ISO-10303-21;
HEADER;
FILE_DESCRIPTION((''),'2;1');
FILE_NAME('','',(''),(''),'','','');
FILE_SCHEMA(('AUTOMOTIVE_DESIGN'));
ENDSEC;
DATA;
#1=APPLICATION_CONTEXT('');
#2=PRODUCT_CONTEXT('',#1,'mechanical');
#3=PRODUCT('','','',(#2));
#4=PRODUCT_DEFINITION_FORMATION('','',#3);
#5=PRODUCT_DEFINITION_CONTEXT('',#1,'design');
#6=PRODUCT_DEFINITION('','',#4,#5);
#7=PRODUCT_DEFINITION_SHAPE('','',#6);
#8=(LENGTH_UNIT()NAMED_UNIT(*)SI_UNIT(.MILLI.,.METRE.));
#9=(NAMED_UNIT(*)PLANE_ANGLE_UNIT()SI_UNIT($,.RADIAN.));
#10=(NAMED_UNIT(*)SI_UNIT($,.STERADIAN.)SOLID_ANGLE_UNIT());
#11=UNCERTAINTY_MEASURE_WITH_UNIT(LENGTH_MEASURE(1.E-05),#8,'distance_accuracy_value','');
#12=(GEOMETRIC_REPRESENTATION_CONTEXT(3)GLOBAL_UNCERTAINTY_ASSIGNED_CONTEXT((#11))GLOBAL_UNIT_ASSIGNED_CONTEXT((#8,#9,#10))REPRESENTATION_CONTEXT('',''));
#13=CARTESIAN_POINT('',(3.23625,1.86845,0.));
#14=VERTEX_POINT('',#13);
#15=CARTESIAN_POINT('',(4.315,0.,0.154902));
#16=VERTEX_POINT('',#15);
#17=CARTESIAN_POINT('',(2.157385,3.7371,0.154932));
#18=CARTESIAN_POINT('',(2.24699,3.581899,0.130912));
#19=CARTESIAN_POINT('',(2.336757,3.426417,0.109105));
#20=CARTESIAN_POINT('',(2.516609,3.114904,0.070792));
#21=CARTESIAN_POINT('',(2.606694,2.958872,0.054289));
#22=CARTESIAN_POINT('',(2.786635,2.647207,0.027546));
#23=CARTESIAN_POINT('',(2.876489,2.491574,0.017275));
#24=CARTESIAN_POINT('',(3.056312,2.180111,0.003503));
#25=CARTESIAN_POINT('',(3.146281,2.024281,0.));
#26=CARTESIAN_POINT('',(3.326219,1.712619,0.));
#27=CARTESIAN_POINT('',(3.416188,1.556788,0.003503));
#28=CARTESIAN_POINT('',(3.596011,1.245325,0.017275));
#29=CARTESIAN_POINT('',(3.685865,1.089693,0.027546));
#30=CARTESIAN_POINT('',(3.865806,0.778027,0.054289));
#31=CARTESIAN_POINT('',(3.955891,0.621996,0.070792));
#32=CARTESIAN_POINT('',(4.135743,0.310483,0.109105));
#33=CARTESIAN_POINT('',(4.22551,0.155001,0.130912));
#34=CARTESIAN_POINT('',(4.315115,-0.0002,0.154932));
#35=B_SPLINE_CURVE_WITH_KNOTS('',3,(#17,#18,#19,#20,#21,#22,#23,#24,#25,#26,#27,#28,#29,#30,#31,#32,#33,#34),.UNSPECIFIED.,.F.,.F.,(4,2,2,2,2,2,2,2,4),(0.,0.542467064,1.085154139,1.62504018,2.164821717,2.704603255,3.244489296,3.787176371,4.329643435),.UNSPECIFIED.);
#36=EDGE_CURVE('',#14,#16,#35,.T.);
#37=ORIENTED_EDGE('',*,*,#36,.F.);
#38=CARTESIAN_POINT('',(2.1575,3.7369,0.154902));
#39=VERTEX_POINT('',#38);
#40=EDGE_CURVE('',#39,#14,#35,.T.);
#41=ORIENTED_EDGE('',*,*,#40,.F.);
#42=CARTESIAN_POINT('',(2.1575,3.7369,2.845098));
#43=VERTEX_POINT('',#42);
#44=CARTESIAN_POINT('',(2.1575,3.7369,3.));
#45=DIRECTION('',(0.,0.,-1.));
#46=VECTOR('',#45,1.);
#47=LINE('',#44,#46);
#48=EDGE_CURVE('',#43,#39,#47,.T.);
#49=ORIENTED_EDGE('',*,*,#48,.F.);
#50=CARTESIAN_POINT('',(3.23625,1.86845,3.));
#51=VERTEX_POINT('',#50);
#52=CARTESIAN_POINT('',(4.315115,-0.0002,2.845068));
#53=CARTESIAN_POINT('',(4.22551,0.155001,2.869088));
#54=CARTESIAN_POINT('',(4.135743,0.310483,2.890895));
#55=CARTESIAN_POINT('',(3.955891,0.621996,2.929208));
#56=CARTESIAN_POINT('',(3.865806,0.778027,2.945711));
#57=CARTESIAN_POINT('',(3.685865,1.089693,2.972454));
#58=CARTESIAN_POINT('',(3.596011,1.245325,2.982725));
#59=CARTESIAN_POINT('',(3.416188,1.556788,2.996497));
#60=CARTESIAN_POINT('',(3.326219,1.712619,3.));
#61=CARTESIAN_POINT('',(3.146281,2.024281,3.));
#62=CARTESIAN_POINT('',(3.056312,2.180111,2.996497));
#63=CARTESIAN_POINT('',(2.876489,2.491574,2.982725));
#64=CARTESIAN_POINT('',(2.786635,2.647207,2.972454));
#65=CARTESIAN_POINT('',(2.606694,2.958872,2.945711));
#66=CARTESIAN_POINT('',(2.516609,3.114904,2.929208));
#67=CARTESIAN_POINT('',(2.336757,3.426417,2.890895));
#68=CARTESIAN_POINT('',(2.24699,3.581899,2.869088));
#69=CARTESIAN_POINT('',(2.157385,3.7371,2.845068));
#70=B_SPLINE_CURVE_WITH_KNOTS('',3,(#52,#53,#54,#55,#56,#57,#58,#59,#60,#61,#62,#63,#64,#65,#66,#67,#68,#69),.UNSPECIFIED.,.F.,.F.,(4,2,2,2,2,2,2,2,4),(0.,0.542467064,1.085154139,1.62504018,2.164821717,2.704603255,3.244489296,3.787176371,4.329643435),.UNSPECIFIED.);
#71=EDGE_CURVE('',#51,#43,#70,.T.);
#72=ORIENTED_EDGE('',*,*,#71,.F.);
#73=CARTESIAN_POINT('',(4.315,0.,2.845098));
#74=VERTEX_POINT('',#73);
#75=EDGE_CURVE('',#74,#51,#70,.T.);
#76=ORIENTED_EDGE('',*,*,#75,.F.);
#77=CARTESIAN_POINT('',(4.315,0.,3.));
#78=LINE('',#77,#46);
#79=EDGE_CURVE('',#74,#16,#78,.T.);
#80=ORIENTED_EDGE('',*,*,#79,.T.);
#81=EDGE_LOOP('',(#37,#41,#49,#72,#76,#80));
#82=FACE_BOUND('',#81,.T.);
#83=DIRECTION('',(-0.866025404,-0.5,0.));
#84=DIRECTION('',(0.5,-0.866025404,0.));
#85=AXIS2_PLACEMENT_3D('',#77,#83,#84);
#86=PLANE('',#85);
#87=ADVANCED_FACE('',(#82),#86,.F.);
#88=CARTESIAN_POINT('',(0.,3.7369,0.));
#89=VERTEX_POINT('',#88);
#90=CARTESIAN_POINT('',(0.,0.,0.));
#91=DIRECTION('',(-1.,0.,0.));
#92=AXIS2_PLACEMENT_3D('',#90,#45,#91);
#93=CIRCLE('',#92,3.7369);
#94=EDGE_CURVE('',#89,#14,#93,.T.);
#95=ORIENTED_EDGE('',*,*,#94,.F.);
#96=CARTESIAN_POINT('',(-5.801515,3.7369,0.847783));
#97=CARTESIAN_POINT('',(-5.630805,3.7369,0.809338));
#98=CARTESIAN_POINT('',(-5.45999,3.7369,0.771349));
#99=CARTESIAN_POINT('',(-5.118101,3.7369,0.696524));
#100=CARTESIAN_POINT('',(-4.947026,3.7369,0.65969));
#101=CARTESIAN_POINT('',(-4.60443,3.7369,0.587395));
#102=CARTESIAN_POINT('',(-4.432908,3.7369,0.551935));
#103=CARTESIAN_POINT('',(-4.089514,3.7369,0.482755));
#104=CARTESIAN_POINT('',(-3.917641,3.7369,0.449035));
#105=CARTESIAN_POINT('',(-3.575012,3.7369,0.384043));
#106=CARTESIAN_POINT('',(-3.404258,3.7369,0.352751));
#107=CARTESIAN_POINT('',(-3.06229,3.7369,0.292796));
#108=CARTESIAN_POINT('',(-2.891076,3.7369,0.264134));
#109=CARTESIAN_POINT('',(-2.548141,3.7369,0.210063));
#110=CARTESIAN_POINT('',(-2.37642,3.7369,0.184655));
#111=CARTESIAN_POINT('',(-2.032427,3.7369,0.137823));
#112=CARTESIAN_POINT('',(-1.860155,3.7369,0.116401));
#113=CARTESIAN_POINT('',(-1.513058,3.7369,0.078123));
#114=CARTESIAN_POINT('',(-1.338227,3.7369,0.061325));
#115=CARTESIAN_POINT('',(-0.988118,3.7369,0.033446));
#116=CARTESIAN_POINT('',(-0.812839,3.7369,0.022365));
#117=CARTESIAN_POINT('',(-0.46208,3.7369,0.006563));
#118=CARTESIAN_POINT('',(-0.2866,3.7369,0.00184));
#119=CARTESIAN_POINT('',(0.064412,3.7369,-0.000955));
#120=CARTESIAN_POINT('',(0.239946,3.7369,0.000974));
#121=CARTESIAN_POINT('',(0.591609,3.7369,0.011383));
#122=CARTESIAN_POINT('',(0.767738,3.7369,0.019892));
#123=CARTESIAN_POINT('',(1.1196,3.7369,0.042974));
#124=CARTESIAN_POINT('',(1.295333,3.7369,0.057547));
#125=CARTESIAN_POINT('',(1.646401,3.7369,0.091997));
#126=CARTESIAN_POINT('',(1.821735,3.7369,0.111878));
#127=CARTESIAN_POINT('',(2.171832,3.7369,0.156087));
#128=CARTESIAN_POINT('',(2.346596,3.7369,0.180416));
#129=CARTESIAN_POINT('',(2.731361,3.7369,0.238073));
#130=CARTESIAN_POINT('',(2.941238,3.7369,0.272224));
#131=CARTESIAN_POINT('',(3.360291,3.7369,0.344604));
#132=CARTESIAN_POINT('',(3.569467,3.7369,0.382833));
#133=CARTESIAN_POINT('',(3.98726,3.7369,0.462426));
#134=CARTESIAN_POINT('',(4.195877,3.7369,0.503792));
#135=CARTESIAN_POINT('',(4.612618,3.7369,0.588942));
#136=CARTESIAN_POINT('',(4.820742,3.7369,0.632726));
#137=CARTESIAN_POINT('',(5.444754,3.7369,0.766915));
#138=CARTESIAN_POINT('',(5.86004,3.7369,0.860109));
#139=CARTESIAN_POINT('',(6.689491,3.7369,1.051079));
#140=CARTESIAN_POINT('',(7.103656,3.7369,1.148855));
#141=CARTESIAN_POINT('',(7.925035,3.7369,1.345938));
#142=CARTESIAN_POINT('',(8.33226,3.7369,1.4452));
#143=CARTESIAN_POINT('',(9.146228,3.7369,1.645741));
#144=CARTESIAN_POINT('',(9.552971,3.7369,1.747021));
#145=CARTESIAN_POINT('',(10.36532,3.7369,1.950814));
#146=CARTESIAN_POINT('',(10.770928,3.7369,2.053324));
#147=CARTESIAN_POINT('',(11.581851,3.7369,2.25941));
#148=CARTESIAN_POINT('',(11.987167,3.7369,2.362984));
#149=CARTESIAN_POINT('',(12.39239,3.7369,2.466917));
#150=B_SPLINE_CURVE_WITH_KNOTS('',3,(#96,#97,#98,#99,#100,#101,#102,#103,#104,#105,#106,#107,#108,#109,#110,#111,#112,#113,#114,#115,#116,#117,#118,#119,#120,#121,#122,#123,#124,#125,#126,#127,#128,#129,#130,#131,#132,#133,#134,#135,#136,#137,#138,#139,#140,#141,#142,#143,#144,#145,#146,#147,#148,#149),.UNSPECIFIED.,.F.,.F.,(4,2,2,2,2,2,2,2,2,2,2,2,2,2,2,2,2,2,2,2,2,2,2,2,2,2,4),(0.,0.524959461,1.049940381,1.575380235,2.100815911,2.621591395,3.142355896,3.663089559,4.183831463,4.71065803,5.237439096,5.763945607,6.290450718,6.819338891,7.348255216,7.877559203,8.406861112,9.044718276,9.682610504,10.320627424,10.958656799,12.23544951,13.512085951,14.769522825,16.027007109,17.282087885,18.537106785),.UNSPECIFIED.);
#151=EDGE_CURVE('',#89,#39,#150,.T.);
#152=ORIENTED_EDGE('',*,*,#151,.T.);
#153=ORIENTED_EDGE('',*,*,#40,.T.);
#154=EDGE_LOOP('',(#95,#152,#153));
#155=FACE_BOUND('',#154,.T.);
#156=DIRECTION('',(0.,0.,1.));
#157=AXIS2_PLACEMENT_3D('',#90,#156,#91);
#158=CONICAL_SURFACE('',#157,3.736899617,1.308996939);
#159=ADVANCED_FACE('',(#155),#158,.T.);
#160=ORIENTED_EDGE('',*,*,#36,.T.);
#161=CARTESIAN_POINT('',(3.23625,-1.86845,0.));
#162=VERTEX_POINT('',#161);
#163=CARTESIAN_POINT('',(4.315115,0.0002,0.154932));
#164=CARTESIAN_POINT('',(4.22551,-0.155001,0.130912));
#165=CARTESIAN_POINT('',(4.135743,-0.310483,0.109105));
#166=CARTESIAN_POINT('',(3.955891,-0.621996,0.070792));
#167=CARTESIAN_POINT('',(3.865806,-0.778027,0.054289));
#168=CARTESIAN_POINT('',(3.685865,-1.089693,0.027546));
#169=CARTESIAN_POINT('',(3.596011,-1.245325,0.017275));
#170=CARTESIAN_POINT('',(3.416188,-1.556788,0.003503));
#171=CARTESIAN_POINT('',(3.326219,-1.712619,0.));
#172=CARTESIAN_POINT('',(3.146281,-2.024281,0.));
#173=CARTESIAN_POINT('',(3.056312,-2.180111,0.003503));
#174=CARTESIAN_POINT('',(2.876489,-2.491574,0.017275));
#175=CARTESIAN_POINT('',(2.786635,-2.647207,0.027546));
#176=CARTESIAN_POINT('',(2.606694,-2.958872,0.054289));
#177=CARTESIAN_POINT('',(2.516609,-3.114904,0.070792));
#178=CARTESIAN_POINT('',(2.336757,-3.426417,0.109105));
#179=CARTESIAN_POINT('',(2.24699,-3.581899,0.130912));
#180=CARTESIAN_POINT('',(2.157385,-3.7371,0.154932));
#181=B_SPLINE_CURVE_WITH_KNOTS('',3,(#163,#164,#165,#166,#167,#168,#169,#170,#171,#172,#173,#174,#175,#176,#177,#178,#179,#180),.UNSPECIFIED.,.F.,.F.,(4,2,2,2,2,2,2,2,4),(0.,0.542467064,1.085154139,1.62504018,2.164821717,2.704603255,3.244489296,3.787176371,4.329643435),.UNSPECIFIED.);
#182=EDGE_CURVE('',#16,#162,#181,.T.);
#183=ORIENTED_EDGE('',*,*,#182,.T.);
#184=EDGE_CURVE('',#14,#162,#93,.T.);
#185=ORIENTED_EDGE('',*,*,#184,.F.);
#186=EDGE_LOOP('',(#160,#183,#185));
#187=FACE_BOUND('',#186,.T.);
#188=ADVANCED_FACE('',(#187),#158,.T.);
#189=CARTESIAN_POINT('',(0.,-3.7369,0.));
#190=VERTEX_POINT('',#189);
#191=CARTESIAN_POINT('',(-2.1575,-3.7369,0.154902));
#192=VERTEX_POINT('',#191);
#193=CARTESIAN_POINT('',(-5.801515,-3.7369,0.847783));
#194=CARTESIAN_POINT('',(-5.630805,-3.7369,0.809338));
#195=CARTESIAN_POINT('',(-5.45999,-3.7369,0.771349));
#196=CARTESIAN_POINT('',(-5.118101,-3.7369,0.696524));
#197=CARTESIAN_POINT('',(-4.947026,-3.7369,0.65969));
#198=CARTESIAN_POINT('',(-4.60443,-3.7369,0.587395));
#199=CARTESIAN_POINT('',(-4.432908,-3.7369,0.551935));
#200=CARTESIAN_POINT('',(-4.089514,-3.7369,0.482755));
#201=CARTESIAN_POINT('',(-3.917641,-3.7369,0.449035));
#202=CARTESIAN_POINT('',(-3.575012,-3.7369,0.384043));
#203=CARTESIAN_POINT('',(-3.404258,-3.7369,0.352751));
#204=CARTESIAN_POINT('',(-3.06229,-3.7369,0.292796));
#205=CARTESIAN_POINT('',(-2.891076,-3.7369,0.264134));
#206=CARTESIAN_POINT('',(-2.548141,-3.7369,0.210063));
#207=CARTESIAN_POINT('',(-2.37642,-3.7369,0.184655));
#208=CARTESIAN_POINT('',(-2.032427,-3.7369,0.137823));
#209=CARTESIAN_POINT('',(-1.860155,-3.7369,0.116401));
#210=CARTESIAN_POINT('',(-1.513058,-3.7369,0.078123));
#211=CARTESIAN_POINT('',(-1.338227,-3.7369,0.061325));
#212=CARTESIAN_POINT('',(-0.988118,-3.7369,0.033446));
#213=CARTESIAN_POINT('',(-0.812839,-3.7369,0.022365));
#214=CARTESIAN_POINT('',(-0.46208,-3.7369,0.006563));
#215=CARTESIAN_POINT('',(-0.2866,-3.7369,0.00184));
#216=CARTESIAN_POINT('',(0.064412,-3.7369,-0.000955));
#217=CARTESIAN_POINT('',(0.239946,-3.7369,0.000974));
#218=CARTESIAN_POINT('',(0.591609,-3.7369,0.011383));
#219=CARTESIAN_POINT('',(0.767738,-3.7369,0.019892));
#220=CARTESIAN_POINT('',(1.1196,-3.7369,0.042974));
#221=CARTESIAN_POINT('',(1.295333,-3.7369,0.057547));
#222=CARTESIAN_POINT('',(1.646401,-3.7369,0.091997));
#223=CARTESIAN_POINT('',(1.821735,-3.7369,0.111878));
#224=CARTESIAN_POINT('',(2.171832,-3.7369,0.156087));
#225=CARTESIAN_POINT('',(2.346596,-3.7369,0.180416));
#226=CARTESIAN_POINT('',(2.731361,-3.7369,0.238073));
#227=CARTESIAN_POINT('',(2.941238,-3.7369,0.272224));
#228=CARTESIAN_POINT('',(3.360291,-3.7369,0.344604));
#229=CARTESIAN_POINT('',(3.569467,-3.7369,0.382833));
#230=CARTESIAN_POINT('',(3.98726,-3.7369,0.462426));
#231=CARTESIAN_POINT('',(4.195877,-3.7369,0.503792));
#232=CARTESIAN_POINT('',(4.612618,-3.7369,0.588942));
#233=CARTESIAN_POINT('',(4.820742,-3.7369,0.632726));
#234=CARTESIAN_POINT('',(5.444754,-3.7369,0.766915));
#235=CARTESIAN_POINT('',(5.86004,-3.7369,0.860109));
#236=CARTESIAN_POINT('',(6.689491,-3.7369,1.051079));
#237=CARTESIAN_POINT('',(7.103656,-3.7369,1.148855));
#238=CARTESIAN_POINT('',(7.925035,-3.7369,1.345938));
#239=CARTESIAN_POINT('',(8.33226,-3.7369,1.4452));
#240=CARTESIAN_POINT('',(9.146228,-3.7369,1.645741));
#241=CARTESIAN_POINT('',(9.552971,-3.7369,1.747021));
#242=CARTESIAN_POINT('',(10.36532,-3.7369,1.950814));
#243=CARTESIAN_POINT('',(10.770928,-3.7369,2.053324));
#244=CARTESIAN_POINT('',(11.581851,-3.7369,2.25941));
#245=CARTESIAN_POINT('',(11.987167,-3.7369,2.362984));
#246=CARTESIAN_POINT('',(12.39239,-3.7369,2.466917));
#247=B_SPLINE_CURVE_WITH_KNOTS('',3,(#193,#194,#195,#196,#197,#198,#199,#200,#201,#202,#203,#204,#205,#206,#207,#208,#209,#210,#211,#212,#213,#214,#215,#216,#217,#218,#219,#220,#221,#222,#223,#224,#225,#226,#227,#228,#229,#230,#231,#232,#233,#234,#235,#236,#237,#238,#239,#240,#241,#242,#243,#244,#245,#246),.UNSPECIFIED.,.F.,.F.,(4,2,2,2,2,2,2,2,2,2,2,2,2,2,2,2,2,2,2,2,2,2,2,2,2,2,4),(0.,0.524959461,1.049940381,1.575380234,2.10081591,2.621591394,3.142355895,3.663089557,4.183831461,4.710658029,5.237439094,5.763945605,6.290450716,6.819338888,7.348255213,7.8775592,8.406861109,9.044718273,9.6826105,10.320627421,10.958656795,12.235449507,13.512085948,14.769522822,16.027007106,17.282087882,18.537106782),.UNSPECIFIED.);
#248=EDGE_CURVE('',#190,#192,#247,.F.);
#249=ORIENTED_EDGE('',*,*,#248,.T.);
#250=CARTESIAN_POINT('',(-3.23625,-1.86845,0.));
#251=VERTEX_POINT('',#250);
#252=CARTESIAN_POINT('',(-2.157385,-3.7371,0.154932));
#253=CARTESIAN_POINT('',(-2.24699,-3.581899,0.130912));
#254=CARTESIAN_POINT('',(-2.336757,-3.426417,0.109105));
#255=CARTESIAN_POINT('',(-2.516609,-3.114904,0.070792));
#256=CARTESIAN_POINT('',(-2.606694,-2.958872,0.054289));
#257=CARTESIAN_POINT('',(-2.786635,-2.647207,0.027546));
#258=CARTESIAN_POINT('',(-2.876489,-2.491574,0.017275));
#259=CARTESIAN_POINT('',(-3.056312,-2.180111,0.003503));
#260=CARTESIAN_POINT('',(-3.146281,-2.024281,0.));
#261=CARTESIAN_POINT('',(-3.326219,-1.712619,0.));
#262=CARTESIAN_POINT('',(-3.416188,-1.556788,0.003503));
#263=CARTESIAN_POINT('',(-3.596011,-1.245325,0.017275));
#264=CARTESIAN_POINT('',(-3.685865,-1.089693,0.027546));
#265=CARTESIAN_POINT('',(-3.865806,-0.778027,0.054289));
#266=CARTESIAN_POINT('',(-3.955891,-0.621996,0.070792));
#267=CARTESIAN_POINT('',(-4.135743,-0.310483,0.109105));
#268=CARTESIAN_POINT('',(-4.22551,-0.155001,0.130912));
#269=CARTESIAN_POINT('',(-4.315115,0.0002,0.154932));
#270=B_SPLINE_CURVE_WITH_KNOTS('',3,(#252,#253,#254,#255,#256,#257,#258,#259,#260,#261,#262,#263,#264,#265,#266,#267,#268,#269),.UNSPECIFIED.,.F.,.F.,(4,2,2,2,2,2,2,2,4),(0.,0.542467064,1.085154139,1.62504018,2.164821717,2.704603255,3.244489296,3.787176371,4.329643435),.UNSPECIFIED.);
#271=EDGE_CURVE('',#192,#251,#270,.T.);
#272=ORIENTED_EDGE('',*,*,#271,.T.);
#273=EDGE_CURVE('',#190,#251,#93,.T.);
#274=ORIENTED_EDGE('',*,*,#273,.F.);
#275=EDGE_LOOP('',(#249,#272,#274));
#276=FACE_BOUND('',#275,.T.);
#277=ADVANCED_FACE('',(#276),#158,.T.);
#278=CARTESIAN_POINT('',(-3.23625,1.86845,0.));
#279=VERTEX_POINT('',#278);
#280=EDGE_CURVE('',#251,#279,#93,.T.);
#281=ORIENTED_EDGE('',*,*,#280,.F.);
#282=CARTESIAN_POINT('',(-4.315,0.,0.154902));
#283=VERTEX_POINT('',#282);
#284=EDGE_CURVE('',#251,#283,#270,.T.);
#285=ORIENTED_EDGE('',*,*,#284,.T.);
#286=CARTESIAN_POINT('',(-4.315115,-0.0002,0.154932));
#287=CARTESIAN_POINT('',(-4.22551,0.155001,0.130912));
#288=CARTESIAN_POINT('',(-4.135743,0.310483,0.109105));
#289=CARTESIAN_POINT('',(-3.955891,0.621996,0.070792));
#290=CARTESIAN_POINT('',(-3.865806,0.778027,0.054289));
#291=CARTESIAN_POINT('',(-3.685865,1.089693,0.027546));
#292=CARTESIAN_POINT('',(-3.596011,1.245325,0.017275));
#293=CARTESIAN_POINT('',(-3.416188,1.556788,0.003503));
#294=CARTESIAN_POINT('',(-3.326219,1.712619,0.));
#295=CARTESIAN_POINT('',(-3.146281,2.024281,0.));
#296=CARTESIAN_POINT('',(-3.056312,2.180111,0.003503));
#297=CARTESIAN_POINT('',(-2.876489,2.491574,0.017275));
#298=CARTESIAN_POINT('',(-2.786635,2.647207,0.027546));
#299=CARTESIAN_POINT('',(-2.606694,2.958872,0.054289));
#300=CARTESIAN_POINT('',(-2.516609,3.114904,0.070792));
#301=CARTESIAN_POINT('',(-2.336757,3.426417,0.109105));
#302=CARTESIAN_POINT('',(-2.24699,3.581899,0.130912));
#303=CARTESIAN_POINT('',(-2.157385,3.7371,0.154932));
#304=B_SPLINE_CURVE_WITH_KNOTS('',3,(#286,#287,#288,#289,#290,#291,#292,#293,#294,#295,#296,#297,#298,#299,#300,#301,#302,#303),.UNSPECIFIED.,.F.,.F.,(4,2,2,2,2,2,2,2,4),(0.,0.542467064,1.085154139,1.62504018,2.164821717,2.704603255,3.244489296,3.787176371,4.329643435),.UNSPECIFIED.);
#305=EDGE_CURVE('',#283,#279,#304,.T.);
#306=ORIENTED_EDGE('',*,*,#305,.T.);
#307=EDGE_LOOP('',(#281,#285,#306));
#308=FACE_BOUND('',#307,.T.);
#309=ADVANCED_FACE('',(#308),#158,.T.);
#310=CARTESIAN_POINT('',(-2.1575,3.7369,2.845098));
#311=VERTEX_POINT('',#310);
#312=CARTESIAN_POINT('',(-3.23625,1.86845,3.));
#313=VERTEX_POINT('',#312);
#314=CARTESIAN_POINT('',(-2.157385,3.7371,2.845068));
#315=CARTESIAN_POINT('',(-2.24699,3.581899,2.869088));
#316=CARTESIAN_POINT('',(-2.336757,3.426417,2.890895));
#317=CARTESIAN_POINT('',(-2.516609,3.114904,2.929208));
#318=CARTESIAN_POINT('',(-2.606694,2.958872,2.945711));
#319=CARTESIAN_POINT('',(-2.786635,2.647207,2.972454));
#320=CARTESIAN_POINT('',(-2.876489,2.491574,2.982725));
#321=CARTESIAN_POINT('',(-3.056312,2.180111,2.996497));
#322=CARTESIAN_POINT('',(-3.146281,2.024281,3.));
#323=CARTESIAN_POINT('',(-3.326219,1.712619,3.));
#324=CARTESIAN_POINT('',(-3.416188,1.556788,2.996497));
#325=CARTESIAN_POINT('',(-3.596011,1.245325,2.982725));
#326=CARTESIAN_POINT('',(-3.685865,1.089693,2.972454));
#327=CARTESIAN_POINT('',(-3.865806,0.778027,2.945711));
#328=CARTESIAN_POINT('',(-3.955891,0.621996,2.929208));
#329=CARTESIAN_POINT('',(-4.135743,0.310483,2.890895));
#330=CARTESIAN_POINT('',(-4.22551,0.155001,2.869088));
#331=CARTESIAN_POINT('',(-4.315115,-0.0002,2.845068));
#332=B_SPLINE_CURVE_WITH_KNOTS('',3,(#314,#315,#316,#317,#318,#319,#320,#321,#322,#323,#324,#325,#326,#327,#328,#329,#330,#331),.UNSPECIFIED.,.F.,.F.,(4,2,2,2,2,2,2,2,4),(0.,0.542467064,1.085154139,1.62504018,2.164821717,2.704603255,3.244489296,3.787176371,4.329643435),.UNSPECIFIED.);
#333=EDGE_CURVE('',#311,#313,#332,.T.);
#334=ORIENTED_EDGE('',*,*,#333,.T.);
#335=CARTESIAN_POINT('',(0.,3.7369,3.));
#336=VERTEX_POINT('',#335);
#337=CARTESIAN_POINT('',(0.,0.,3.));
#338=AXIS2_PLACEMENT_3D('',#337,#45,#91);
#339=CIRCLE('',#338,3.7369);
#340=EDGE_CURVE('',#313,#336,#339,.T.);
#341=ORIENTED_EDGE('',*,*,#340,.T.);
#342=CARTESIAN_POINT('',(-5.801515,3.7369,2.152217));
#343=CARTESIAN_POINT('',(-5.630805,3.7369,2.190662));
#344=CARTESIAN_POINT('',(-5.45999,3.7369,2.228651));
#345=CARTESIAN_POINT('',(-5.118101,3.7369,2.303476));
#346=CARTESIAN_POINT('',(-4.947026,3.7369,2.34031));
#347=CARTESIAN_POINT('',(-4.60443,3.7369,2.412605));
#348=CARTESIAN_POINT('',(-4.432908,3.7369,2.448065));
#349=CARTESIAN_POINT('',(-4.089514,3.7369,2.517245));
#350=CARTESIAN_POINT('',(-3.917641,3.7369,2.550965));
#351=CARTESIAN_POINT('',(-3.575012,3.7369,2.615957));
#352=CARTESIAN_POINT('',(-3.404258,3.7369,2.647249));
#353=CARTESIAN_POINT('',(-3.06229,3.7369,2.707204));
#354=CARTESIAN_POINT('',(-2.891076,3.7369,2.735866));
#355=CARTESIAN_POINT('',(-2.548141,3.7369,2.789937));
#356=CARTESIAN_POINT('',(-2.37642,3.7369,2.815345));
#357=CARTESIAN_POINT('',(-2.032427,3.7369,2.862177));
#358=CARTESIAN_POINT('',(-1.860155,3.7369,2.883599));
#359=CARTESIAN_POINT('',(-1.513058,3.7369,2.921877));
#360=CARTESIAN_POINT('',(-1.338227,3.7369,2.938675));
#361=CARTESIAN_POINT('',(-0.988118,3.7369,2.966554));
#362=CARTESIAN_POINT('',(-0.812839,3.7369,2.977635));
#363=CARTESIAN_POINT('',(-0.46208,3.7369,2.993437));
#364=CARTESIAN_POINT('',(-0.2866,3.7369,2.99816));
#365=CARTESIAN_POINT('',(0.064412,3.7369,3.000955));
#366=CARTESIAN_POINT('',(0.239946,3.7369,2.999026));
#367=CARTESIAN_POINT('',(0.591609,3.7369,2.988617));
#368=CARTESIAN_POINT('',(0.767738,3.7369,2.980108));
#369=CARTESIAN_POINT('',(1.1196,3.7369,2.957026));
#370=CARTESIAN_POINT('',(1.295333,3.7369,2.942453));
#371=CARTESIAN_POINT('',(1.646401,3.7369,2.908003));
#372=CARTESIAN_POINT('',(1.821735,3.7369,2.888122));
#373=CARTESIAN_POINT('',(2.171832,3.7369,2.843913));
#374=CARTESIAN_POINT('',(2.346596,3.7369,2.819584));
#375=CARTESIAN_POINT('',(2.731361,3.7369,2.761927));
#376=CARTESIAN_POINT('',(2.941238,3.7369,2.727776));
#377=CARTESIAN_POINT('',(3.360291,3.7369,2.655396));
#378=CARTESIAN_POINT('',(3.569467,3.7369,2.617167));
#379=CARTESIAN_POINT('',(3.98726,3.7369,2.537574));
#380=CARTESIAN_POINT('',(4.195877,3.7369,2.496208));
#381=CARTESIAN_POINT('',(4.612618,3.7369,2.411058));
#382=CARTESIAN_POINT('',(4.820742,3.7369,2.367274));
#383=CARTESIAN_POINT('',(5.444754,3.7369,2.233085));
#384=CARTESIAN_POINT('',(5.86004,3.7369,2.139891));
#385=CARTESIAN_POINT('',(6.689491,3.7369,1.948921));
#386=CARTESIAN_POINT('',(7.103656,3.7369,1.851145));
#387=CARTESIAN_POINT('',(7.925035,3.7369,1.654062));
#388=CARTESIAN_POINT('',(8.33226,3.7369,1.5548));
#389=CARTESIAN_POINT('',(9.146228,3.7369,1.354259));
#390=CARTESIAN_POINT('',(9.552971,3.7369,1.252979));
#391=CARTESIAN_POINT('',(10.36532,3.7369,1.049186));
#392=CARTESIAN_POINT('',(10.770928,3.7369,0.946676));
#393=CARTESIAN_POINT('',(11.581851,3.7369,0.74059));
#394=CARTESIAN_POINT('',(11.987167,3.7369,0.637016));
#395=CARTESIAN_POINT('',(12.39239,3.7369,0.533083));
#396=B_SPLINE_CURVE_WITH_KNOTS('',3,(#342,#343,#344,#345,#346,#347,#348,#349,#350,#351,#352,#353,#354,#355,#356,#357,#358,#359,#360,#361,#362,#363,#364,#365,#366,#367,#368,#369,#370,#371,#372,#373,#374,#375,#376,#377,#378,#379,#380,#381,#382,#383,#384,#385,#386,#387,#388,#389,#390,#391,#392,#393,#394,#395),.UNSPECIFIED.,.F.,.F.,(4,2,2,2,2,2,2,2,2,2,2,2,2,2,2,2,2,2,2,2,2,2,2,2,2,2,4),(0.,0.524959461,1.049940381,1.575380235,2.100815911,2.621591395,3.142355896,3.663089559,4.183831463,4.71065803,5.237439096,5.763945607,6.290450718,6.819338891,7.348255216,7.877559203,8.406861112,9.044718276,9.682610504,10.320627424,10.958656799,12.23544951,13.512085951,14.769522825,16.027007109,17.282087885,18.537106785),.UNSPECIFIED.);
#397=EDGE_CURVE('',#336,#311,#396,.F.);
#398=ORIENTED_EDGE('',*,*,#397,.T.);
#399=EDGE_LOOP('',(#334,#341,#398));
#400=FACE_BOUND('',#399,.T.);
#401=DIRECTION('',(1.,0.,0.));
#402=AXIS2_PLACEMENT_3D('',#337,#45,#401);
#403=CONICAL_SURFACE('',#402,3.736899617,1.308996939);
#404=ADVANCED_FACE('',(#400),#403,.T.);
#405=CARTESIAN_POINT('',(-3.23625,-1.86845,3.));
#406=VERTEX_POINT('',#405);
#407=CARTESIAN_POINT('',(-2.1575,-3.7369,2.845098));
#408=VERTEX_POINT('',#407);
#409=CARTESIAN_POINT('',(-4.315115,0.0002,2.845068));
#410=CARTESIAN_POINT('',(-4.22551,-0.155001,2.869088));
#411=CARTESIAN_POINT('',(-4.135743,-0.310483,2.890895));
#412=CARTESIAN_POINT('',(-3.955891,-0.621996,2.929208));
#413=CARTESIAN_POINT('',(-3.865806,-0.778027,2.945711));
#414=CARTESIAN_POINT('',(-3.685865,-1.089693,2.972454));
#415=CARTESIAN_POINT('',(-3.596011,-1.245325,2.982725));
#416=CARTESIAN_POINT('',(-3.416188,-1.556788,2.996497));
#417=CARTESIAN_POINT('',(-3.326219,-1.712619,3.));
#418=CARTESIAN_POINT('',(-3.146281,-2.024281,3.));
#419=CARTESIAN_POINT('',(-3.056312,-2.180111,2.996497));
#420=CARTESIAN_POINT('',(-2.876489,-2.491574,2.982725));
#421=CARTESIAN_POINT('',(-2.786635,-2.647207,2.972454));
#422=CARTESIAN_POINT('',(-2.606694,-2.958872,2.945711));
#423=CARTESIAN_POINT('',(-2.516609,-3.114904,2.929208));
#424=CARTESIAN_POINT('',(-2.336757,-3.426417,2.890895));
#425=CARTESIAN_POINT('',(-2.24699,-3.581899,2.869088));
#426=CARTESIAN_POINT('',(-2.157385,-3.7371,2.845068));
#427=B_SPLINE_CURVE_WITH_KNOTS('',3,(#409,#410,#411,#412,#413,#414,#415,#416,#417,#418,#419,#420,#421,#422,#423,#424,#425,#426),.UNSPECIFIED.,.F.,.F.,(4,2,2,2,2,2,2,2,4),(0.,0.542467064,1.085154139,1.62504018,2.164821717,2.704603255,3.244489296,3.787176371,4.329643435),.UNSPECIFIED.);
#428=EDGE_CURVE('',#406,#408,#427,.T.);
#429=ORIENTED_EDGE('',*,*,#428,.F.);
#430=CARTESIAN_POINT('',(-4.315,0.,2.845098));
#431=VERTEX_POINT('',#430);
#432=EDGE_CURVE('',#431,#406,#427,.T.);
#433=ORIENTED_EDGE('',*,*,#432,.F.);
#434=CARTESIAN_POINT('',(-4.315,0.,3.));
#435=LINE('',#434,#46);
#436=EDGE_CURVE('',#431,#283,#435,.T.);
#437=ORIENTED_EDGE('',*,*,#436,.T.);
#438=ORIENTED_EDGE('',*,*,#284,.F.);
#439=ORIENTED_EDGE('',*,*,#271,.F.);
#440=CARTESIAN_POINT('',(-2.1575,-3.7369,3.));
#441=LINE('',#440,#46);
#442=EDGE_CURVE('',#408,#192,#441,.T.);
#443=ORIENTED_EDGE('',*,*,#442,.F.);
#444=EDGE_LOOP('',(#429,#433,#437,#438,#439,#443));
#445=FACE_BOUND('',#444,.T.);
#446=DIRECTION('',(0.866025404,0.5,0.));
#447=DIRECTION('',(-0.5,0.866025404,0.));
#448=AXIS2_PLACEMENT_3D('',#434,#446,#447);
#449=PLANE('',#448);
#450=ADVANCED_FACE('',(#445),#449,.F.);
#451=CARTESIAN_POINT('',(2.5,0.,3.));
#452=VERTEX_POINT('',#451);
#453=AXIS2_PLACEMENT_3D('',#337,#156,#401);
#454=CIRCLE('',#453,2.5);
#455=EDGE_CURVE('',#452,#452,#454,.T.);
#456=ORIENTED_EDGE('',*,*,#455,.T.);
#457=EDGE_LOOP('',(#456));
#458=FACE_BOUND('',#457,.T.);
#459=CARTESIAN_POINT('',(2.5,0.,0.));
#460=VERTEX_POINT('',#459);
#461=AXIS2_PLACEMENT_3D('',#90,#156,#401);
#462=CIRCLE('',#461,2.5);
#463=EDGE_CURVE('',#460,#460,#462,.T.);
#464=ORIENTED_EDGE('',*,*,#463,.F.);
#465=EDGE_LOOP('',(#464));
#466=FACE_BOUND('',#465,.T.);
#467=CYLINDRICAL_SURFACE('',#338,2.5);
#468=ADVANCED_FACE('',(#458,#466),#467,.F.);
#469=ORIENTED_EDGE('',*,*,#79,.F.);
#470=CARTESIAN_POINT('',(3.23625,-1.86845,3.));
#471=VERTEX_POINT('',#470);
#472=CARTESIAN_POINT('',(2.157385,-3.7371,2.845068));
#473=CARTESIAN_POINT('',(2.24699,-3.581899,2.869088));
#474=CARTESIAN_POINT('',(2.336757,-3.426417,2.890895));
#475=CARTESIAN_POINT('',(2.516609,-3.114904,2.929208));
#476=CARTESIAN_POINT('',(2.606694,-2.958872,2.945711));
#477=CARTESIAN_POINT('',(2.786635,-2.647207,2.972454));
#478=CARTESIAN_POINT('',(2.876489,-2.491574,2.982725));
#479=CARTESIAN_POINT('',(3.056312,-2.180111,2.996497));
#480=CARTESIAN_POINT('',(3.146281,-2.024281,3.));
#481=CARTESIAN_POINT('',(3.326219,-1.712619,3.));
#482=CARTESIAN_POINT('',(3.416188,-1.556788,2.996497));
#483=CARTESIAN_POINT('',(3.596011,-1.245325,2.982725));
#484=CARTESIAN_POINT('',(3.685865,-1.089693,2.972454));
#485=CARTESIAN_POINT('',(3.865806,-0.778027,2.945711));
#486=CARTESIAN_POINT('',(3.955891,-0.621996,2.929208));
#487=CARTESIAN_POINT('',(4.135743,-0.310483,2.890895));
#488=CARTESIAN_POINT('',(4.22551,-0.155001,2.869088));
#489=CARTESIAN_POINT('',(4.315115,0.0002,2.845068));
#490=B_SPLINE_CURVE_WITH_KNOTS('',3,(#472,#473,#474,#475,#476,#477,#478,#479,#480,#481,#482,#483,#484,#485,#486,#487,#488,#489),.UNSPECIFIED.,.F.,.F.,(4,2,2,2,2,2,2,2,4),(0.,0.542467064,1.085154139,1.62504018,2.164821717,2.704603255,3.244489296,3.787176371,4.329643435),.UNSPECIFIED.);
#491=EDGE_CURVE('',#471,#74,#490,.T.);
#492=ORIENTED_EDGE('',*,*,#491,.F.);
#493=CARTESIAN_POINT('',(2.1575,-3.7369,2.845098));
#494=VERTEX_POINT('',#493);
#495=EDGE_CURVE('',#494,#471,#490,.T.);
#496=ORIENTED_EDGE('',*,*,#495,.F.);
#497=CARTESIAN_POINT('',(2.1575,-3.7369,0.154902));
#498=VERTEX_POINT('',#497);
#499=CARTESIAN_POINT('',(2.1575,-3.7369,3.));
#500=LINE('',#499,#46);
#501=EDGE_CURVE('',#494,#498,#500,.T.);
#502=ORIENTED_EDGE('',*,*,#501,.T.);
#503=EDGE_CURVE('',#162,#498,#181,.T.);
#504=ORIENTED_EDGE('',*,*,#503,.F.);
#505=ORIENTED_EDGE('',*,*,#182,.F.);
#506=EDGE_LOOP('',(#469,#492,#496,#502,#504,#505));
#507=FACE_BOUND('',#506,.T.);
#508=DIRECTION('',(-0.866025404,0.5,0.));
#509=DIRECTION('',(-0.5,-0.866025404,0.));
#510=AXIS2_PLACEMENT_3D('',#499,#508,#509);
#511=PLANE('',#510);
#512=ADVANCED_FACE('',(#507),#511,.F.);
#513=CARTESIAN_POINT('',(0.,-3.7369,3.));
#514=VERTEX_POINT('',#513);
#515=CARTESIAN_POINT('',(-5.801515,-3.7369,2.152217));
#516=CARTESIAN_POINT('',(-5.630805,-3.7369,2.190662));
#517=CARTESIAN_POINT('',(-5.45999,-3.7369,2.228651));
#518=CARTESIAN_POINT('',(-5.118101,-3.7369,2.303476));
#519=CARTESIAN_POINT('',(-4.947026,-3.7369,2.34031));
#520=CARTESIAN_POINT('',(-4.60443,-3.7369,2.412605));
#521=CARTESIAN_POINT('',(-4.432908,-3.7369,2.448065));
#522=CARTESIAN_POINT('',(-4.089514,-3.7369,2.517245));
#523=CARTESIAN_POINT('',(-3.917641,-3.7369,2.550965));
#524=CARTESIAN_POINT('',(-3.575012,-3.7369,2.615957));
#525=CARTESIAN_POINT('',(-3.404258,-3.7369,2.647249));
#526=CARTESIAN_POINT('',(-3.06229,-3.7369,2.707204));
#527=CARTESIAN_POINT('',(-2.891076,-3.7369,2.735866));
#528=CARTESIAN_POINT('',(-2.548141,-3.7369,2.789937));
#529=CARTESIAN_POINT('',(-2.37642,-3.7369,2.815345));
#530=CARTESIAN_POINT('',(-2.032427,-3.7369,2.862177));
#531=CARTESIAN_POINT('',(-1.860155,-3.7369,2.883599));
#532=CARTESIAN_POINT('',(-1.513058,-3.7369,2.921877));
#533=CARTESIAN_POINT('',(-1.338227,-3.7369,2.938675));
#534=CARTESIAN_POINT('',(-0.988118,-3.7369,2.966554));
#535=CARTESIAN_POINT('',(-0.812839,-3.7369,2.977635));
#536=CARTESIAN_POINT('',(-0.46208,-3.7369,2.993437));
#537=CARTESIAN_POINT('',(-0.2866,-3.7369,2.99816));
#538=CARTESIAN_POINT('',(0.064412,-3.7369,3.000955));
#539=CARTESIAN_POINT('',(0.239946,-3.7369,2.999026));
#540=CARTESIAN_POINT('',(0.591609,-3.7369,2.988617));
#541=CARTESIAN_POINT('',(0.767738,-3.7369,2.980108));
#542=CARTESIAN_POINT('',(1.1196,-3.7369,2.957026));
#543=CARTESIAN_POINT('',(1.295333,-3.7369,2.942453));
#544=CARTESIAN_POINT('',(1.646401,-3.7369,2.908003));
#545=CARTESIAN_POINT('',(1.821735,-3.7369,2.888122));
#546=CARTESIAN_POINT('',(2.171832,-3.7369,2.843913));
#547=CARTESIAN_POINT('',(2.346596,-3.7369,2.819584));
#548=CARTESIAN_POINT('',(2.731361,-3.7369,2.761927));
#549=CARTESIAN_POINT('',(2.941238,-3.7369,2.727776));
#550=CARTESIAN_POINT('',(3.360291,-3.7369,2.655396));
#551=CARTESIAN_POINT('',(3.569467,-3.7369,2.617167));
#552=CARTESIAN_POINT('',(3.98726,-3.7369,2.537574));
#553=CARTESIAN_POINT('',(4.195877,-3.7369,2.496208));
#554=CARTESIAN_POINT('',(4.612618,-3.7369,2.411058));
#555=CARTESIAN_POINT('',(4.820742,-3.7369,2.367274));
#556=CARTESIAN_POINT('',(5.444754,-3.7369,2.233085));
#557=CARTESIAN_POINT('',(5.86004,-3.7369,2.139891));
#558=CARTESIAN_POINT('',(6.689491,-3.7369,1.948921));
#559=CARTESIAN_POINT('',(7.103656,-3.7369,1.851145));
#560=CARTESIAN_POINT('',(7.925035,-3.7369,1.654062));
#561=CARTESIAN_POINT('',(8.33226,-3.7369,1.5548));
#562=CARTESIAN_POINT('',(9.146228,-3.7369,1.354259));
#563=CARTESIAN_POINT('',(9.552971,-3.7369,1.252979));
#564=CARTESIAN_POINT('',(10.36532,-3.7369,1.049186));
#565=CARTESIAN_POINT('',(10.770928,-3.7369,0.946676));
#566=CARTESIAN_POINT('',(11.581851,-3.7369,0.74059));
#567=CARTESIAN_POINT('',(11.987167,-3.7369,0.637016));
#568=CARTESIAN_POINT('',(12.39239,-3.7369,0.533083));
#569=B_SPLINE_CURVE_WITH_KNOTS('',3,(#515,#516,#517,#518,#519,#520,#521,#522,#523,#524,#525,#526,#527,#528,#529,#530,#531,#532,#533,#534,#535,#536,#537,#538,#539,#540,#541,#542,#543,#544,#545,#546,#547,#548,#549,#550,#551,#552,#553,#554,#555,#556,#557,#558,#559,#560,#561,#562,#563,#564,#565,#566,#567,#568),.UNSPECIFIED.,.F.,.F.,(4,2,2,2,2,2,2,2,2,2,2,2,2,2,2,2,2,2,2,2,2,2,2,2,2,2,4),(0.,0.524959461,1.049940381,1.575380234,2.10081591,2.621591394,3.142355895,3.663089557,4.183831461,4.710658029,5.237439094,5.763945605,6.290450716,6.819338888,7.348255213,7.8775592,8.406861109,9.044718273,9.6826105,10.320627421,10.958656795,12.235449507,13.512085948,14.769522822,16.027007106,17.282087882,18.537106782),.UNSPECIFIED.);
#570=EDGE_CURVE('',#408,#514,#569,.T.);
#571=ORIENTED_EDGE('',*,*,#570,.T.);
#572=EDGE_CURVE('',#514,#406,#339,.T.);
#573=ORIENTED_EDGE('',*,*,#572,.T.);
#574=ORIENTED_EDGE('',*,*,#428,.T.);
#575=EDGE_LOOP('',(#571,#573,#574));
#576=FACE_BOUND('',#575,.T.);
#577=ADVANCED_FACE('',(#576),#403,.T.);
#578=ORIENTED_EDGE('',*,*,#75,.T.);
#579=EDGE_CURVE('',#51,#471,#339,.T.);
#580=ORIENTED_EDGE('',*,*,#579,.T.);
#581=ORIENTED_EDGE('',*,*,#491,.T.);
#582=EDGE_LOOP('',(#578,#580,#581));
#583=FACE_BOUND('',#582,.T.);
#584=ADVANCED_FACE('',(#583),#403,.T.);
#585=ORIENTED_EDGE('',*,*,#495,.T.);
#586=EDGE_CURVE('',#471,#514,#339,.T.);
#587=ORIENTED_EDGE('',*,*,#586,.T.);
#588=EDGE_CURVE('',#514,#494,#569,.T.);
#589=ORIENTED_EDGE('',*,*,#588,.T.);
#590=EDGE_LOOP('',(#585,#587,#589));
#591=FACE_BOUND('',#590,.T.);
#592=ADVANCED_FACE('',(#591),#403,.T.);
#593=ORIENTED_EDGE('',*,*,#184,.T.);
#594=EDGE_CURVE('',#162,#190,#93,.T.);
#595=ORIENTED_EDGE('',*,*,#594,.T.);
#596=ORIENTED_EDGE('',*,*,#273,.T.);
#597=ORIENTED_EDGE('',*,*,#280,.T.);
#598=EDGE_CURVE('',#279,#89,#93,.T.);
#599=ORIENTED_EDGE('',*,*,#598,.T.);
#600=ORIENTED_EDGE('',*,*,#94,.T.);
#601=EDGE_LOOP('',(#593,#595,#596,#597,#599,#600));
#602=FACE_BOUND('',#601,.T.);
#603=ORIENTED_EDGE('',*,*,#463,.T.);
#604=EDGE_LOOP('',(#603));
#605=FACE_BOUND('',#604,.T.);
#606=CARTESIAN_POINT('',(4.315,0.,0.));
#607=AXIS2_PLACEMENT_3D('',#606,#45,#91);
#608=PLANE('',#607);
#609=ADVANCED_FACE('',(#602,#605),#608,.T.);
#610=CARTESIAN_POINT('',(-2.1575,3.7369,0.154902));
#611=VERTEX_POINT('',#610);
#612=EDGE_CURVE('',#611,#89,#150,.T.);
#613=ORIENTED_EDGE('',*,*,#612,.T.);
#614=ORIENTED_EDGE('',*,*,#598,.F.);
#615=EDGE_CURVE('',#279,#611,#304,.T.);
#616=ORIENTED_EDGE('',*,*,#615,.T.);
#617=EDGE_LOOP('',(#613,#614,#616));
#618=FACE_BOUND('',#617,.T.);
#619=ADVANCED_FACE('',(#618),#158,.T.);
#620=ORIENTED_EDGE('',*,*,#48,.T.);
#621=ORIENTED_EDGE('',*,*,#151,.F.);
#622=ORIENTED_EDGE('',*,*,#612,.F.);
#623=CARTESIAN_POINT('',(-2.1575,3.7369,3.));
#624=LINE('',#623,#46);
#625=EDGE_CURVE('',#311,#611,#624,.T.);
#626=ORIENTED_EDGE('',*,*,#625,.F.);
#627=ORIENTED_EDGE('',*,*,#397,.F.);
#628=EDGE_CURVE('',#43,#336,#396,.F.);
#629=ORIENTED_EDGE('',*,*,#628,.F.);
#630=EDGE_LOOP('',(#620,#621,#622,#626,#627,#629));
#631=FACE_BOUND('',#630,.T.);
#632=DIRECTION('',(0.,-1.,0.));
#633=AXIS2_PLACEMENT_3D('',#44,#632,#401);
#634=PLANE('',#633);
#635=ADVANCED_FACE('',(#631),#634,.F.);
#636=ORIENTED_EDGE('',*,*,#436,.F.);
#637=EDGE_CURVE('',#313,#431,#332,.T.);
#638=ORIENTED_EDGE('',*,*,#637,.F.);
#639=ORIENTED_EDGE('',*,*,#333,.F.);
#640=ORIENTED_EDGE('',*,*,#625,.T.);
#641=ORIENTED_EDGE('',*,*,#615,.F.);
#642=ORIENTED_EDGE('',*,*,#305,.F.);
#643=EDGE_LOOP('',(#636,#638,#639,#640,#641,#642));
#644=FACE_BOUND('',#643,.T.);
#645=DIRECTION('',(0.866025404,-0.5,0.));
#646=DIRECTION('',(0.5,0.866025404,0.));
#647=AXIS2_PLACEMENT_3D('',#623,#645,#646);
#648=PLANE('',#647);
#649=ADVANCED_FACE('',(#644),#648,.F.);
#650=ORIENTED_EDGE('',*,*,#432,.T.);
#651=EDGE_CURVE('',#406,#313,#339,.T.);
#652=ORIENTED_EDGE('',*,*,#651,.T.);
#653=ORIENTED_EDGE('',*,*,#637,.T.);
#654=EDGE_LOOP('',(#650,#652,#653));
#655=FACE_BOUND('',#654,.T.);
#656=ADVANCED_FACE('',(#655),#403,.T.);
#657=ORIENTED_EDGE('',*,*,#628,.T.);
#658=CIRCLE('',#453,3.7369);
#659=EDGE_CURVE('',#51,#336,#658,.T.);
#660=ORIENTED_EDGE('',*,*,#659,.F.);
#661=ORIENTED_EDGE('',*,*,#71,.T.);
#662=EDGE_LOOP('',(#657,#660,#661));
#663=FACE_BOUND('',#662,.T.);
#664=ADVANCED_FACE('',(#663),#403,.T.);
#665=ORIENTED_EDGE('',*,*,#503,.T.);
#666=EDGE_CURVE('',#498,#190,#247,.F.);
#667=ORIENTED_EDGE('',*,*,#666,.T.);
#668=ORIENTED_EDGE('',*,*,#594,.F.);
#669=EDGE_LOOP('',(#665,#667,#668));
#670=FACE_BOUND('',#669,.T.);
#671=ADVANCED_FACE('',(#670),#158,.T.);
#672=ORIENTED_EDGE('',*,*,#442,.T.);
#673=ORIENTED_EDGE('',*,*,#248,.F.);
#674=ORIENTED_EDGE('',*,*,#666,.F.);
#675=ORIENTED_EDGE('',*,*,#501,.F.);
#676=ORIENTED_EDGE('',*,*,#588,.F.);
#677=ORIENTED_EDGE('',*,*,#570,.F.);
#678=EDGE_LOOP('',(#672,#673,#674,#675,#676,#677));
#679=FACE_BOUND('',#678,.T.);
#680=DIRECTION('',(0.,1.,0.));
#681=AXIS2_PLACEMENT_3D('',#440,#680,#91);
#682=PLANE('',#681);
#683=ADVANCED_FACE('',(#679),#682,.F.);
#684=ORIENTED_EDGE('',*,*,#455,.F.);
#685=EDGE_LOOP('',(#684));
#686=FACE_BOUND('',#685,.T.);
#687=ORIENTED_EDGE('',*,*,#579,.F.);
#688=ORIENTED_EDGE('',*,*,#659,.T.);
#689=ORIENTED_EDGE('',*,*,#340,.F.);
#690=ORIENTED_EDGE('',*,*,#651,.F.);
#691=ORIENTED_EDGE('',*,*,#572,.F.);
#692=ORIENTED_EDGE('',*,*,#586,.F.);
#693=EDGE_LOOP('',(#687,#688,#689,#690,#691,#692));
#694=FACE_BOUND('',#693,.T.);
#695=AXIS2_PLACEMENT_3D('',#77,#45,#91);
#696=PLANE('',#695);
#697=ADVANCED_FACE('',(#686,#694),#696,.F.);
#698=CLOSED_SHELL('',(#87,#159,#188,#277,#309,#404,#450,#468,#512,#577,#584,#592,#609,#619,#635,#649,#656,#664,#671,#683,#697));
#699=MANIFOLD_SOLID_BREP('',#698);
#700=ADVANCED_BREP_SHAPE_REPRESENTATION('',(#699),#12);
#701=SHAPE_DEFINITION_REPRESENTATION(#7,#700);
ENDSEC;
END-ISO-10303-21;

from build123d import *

# Parameters (mm, degrees)
SKETCH_1_R          = 2.5
EXTRUDE_514_DEPTH   = 3
SKETCH_2_OUTSIDE_W  = 296.626
SKETCH_2_OUTSIDE_H  = 295.47
SKETCH_2_OUTSIDE_R  = 3.736899617
CUT_EXTRUDE_1_DEPTH = 38
CUT_EXTRUDE_1_DRAFT = -75
SKETCH_3_OUTSIDE_W  = 296.626
SKETCH_3_OUTSIDE_H  = 295.47
SKETCH_3_OUTSIDE_R  = 3.736899617
CUT_EXTRUDE_2_DEPTH = 38
CUT_EXTRUDE_2_DRAFT = -75


with BuildPart() as part:
    # 草图1 → Extrude 514 (new body)
    with BuildSketch(Plane.XY):
        Polygon((2.1575, 3.736899617), (-2.1575, 3.736899617), (-4.315, 0), (-2.1575, -3.736899617), (2.1575, -3.736899617), (4.315, 0), align=None)
        Circle(SKETCH_1_R, mode=Mode.SUBTRACT)
    extrude(amount=EXTRUDE_514_DEPTH)


with BuildPart() as cut_extrude_1_tool:
    # 草图2 outside → 切除-拉伸1 (with draft: the straight prism first)
    with BuildSketch(Plane(origin=(0, 0, 0), x_dir=(-1, 0, 0), z_dir=(0, 0, -1))):
        Rectangle(SKETCH_2_OUTSIDE_W, SKETCH_2_OUTSIDE_H)
        Circle(SKETCH_2_OUTSIDE_R, mode=Mode.SUBTRACT)
    extrude(amount=-CUT_EXTRUDE_1_DEPTH)
    # 切除-拉伸1: the draft: its side faces are tilted about the plane it starts from
    cut_extrude_1_sides = [cut_extrude_1_tool.faces().sort_by_distance(p)[0] for p in [
        (0, -147.735, 19),
        (-148.313, 0, 19),
        (0, 147.735, 19),
        (148.313, 0, 19),
        (3.736899617, 0, 19),
    ]]
    draft(cut_extrude_1_sides, Plane(origin=(0, 0, 0), x_dir=(-1, 0, 0), z_dir=(0, 0, -1)), CUT_EXTRUDE_1_DRAFT)


with BuildPart() as part_1:
    add(part.part)

    # 切除-拉伸1: cut by cut_extrude_1_tool
    add(cut_extrude_1_tool.part, mode=Mode.SUBTRACT)


with BuildPart() as cut_extrude_2_tool:
    # 草图3 outside → 切除-拉伸2 (with draft: the straight prism first)
    with BuildSketch(Plane.XY.offset(3)):
        Rectangle(SKETCH_3_OUTSIDE_W, SKETCH_3_OUTSIDE_H)
        Circle(SKETCH_3_OUTSIDE_R, mode=Mode.SUBTRACT)
    extrude(amount=-CUT_EXTRUDE_2_DEPTH)
    # 切除-拉伸2: the draft: its side faces are tilted about the plane it starts from
    cut_extrude_2_sides = [cut_extrude_2_tool.faces().sort_by_distance(p)[0] for p in [
        (0, -147.735, -16),
        (148.313, 0, -16),
        (0, 147.735, -16),
        (-148.313, 0, -16),
        (-3.736899617, 0, -16),
    ]]
    draft(cut_extrude_2_sides, Plane.XY.offset(3), CUT_EXTRUDE_2_DRAFT)


with BuildPart() as part_2:
    add(part_1.part)

    # 切除-拉伸2: cut by cut_extrude_2_tool
    add(cut_extrude_2_tool.part, mode=Mode.SUBTRACT)


solid = part_2.part
